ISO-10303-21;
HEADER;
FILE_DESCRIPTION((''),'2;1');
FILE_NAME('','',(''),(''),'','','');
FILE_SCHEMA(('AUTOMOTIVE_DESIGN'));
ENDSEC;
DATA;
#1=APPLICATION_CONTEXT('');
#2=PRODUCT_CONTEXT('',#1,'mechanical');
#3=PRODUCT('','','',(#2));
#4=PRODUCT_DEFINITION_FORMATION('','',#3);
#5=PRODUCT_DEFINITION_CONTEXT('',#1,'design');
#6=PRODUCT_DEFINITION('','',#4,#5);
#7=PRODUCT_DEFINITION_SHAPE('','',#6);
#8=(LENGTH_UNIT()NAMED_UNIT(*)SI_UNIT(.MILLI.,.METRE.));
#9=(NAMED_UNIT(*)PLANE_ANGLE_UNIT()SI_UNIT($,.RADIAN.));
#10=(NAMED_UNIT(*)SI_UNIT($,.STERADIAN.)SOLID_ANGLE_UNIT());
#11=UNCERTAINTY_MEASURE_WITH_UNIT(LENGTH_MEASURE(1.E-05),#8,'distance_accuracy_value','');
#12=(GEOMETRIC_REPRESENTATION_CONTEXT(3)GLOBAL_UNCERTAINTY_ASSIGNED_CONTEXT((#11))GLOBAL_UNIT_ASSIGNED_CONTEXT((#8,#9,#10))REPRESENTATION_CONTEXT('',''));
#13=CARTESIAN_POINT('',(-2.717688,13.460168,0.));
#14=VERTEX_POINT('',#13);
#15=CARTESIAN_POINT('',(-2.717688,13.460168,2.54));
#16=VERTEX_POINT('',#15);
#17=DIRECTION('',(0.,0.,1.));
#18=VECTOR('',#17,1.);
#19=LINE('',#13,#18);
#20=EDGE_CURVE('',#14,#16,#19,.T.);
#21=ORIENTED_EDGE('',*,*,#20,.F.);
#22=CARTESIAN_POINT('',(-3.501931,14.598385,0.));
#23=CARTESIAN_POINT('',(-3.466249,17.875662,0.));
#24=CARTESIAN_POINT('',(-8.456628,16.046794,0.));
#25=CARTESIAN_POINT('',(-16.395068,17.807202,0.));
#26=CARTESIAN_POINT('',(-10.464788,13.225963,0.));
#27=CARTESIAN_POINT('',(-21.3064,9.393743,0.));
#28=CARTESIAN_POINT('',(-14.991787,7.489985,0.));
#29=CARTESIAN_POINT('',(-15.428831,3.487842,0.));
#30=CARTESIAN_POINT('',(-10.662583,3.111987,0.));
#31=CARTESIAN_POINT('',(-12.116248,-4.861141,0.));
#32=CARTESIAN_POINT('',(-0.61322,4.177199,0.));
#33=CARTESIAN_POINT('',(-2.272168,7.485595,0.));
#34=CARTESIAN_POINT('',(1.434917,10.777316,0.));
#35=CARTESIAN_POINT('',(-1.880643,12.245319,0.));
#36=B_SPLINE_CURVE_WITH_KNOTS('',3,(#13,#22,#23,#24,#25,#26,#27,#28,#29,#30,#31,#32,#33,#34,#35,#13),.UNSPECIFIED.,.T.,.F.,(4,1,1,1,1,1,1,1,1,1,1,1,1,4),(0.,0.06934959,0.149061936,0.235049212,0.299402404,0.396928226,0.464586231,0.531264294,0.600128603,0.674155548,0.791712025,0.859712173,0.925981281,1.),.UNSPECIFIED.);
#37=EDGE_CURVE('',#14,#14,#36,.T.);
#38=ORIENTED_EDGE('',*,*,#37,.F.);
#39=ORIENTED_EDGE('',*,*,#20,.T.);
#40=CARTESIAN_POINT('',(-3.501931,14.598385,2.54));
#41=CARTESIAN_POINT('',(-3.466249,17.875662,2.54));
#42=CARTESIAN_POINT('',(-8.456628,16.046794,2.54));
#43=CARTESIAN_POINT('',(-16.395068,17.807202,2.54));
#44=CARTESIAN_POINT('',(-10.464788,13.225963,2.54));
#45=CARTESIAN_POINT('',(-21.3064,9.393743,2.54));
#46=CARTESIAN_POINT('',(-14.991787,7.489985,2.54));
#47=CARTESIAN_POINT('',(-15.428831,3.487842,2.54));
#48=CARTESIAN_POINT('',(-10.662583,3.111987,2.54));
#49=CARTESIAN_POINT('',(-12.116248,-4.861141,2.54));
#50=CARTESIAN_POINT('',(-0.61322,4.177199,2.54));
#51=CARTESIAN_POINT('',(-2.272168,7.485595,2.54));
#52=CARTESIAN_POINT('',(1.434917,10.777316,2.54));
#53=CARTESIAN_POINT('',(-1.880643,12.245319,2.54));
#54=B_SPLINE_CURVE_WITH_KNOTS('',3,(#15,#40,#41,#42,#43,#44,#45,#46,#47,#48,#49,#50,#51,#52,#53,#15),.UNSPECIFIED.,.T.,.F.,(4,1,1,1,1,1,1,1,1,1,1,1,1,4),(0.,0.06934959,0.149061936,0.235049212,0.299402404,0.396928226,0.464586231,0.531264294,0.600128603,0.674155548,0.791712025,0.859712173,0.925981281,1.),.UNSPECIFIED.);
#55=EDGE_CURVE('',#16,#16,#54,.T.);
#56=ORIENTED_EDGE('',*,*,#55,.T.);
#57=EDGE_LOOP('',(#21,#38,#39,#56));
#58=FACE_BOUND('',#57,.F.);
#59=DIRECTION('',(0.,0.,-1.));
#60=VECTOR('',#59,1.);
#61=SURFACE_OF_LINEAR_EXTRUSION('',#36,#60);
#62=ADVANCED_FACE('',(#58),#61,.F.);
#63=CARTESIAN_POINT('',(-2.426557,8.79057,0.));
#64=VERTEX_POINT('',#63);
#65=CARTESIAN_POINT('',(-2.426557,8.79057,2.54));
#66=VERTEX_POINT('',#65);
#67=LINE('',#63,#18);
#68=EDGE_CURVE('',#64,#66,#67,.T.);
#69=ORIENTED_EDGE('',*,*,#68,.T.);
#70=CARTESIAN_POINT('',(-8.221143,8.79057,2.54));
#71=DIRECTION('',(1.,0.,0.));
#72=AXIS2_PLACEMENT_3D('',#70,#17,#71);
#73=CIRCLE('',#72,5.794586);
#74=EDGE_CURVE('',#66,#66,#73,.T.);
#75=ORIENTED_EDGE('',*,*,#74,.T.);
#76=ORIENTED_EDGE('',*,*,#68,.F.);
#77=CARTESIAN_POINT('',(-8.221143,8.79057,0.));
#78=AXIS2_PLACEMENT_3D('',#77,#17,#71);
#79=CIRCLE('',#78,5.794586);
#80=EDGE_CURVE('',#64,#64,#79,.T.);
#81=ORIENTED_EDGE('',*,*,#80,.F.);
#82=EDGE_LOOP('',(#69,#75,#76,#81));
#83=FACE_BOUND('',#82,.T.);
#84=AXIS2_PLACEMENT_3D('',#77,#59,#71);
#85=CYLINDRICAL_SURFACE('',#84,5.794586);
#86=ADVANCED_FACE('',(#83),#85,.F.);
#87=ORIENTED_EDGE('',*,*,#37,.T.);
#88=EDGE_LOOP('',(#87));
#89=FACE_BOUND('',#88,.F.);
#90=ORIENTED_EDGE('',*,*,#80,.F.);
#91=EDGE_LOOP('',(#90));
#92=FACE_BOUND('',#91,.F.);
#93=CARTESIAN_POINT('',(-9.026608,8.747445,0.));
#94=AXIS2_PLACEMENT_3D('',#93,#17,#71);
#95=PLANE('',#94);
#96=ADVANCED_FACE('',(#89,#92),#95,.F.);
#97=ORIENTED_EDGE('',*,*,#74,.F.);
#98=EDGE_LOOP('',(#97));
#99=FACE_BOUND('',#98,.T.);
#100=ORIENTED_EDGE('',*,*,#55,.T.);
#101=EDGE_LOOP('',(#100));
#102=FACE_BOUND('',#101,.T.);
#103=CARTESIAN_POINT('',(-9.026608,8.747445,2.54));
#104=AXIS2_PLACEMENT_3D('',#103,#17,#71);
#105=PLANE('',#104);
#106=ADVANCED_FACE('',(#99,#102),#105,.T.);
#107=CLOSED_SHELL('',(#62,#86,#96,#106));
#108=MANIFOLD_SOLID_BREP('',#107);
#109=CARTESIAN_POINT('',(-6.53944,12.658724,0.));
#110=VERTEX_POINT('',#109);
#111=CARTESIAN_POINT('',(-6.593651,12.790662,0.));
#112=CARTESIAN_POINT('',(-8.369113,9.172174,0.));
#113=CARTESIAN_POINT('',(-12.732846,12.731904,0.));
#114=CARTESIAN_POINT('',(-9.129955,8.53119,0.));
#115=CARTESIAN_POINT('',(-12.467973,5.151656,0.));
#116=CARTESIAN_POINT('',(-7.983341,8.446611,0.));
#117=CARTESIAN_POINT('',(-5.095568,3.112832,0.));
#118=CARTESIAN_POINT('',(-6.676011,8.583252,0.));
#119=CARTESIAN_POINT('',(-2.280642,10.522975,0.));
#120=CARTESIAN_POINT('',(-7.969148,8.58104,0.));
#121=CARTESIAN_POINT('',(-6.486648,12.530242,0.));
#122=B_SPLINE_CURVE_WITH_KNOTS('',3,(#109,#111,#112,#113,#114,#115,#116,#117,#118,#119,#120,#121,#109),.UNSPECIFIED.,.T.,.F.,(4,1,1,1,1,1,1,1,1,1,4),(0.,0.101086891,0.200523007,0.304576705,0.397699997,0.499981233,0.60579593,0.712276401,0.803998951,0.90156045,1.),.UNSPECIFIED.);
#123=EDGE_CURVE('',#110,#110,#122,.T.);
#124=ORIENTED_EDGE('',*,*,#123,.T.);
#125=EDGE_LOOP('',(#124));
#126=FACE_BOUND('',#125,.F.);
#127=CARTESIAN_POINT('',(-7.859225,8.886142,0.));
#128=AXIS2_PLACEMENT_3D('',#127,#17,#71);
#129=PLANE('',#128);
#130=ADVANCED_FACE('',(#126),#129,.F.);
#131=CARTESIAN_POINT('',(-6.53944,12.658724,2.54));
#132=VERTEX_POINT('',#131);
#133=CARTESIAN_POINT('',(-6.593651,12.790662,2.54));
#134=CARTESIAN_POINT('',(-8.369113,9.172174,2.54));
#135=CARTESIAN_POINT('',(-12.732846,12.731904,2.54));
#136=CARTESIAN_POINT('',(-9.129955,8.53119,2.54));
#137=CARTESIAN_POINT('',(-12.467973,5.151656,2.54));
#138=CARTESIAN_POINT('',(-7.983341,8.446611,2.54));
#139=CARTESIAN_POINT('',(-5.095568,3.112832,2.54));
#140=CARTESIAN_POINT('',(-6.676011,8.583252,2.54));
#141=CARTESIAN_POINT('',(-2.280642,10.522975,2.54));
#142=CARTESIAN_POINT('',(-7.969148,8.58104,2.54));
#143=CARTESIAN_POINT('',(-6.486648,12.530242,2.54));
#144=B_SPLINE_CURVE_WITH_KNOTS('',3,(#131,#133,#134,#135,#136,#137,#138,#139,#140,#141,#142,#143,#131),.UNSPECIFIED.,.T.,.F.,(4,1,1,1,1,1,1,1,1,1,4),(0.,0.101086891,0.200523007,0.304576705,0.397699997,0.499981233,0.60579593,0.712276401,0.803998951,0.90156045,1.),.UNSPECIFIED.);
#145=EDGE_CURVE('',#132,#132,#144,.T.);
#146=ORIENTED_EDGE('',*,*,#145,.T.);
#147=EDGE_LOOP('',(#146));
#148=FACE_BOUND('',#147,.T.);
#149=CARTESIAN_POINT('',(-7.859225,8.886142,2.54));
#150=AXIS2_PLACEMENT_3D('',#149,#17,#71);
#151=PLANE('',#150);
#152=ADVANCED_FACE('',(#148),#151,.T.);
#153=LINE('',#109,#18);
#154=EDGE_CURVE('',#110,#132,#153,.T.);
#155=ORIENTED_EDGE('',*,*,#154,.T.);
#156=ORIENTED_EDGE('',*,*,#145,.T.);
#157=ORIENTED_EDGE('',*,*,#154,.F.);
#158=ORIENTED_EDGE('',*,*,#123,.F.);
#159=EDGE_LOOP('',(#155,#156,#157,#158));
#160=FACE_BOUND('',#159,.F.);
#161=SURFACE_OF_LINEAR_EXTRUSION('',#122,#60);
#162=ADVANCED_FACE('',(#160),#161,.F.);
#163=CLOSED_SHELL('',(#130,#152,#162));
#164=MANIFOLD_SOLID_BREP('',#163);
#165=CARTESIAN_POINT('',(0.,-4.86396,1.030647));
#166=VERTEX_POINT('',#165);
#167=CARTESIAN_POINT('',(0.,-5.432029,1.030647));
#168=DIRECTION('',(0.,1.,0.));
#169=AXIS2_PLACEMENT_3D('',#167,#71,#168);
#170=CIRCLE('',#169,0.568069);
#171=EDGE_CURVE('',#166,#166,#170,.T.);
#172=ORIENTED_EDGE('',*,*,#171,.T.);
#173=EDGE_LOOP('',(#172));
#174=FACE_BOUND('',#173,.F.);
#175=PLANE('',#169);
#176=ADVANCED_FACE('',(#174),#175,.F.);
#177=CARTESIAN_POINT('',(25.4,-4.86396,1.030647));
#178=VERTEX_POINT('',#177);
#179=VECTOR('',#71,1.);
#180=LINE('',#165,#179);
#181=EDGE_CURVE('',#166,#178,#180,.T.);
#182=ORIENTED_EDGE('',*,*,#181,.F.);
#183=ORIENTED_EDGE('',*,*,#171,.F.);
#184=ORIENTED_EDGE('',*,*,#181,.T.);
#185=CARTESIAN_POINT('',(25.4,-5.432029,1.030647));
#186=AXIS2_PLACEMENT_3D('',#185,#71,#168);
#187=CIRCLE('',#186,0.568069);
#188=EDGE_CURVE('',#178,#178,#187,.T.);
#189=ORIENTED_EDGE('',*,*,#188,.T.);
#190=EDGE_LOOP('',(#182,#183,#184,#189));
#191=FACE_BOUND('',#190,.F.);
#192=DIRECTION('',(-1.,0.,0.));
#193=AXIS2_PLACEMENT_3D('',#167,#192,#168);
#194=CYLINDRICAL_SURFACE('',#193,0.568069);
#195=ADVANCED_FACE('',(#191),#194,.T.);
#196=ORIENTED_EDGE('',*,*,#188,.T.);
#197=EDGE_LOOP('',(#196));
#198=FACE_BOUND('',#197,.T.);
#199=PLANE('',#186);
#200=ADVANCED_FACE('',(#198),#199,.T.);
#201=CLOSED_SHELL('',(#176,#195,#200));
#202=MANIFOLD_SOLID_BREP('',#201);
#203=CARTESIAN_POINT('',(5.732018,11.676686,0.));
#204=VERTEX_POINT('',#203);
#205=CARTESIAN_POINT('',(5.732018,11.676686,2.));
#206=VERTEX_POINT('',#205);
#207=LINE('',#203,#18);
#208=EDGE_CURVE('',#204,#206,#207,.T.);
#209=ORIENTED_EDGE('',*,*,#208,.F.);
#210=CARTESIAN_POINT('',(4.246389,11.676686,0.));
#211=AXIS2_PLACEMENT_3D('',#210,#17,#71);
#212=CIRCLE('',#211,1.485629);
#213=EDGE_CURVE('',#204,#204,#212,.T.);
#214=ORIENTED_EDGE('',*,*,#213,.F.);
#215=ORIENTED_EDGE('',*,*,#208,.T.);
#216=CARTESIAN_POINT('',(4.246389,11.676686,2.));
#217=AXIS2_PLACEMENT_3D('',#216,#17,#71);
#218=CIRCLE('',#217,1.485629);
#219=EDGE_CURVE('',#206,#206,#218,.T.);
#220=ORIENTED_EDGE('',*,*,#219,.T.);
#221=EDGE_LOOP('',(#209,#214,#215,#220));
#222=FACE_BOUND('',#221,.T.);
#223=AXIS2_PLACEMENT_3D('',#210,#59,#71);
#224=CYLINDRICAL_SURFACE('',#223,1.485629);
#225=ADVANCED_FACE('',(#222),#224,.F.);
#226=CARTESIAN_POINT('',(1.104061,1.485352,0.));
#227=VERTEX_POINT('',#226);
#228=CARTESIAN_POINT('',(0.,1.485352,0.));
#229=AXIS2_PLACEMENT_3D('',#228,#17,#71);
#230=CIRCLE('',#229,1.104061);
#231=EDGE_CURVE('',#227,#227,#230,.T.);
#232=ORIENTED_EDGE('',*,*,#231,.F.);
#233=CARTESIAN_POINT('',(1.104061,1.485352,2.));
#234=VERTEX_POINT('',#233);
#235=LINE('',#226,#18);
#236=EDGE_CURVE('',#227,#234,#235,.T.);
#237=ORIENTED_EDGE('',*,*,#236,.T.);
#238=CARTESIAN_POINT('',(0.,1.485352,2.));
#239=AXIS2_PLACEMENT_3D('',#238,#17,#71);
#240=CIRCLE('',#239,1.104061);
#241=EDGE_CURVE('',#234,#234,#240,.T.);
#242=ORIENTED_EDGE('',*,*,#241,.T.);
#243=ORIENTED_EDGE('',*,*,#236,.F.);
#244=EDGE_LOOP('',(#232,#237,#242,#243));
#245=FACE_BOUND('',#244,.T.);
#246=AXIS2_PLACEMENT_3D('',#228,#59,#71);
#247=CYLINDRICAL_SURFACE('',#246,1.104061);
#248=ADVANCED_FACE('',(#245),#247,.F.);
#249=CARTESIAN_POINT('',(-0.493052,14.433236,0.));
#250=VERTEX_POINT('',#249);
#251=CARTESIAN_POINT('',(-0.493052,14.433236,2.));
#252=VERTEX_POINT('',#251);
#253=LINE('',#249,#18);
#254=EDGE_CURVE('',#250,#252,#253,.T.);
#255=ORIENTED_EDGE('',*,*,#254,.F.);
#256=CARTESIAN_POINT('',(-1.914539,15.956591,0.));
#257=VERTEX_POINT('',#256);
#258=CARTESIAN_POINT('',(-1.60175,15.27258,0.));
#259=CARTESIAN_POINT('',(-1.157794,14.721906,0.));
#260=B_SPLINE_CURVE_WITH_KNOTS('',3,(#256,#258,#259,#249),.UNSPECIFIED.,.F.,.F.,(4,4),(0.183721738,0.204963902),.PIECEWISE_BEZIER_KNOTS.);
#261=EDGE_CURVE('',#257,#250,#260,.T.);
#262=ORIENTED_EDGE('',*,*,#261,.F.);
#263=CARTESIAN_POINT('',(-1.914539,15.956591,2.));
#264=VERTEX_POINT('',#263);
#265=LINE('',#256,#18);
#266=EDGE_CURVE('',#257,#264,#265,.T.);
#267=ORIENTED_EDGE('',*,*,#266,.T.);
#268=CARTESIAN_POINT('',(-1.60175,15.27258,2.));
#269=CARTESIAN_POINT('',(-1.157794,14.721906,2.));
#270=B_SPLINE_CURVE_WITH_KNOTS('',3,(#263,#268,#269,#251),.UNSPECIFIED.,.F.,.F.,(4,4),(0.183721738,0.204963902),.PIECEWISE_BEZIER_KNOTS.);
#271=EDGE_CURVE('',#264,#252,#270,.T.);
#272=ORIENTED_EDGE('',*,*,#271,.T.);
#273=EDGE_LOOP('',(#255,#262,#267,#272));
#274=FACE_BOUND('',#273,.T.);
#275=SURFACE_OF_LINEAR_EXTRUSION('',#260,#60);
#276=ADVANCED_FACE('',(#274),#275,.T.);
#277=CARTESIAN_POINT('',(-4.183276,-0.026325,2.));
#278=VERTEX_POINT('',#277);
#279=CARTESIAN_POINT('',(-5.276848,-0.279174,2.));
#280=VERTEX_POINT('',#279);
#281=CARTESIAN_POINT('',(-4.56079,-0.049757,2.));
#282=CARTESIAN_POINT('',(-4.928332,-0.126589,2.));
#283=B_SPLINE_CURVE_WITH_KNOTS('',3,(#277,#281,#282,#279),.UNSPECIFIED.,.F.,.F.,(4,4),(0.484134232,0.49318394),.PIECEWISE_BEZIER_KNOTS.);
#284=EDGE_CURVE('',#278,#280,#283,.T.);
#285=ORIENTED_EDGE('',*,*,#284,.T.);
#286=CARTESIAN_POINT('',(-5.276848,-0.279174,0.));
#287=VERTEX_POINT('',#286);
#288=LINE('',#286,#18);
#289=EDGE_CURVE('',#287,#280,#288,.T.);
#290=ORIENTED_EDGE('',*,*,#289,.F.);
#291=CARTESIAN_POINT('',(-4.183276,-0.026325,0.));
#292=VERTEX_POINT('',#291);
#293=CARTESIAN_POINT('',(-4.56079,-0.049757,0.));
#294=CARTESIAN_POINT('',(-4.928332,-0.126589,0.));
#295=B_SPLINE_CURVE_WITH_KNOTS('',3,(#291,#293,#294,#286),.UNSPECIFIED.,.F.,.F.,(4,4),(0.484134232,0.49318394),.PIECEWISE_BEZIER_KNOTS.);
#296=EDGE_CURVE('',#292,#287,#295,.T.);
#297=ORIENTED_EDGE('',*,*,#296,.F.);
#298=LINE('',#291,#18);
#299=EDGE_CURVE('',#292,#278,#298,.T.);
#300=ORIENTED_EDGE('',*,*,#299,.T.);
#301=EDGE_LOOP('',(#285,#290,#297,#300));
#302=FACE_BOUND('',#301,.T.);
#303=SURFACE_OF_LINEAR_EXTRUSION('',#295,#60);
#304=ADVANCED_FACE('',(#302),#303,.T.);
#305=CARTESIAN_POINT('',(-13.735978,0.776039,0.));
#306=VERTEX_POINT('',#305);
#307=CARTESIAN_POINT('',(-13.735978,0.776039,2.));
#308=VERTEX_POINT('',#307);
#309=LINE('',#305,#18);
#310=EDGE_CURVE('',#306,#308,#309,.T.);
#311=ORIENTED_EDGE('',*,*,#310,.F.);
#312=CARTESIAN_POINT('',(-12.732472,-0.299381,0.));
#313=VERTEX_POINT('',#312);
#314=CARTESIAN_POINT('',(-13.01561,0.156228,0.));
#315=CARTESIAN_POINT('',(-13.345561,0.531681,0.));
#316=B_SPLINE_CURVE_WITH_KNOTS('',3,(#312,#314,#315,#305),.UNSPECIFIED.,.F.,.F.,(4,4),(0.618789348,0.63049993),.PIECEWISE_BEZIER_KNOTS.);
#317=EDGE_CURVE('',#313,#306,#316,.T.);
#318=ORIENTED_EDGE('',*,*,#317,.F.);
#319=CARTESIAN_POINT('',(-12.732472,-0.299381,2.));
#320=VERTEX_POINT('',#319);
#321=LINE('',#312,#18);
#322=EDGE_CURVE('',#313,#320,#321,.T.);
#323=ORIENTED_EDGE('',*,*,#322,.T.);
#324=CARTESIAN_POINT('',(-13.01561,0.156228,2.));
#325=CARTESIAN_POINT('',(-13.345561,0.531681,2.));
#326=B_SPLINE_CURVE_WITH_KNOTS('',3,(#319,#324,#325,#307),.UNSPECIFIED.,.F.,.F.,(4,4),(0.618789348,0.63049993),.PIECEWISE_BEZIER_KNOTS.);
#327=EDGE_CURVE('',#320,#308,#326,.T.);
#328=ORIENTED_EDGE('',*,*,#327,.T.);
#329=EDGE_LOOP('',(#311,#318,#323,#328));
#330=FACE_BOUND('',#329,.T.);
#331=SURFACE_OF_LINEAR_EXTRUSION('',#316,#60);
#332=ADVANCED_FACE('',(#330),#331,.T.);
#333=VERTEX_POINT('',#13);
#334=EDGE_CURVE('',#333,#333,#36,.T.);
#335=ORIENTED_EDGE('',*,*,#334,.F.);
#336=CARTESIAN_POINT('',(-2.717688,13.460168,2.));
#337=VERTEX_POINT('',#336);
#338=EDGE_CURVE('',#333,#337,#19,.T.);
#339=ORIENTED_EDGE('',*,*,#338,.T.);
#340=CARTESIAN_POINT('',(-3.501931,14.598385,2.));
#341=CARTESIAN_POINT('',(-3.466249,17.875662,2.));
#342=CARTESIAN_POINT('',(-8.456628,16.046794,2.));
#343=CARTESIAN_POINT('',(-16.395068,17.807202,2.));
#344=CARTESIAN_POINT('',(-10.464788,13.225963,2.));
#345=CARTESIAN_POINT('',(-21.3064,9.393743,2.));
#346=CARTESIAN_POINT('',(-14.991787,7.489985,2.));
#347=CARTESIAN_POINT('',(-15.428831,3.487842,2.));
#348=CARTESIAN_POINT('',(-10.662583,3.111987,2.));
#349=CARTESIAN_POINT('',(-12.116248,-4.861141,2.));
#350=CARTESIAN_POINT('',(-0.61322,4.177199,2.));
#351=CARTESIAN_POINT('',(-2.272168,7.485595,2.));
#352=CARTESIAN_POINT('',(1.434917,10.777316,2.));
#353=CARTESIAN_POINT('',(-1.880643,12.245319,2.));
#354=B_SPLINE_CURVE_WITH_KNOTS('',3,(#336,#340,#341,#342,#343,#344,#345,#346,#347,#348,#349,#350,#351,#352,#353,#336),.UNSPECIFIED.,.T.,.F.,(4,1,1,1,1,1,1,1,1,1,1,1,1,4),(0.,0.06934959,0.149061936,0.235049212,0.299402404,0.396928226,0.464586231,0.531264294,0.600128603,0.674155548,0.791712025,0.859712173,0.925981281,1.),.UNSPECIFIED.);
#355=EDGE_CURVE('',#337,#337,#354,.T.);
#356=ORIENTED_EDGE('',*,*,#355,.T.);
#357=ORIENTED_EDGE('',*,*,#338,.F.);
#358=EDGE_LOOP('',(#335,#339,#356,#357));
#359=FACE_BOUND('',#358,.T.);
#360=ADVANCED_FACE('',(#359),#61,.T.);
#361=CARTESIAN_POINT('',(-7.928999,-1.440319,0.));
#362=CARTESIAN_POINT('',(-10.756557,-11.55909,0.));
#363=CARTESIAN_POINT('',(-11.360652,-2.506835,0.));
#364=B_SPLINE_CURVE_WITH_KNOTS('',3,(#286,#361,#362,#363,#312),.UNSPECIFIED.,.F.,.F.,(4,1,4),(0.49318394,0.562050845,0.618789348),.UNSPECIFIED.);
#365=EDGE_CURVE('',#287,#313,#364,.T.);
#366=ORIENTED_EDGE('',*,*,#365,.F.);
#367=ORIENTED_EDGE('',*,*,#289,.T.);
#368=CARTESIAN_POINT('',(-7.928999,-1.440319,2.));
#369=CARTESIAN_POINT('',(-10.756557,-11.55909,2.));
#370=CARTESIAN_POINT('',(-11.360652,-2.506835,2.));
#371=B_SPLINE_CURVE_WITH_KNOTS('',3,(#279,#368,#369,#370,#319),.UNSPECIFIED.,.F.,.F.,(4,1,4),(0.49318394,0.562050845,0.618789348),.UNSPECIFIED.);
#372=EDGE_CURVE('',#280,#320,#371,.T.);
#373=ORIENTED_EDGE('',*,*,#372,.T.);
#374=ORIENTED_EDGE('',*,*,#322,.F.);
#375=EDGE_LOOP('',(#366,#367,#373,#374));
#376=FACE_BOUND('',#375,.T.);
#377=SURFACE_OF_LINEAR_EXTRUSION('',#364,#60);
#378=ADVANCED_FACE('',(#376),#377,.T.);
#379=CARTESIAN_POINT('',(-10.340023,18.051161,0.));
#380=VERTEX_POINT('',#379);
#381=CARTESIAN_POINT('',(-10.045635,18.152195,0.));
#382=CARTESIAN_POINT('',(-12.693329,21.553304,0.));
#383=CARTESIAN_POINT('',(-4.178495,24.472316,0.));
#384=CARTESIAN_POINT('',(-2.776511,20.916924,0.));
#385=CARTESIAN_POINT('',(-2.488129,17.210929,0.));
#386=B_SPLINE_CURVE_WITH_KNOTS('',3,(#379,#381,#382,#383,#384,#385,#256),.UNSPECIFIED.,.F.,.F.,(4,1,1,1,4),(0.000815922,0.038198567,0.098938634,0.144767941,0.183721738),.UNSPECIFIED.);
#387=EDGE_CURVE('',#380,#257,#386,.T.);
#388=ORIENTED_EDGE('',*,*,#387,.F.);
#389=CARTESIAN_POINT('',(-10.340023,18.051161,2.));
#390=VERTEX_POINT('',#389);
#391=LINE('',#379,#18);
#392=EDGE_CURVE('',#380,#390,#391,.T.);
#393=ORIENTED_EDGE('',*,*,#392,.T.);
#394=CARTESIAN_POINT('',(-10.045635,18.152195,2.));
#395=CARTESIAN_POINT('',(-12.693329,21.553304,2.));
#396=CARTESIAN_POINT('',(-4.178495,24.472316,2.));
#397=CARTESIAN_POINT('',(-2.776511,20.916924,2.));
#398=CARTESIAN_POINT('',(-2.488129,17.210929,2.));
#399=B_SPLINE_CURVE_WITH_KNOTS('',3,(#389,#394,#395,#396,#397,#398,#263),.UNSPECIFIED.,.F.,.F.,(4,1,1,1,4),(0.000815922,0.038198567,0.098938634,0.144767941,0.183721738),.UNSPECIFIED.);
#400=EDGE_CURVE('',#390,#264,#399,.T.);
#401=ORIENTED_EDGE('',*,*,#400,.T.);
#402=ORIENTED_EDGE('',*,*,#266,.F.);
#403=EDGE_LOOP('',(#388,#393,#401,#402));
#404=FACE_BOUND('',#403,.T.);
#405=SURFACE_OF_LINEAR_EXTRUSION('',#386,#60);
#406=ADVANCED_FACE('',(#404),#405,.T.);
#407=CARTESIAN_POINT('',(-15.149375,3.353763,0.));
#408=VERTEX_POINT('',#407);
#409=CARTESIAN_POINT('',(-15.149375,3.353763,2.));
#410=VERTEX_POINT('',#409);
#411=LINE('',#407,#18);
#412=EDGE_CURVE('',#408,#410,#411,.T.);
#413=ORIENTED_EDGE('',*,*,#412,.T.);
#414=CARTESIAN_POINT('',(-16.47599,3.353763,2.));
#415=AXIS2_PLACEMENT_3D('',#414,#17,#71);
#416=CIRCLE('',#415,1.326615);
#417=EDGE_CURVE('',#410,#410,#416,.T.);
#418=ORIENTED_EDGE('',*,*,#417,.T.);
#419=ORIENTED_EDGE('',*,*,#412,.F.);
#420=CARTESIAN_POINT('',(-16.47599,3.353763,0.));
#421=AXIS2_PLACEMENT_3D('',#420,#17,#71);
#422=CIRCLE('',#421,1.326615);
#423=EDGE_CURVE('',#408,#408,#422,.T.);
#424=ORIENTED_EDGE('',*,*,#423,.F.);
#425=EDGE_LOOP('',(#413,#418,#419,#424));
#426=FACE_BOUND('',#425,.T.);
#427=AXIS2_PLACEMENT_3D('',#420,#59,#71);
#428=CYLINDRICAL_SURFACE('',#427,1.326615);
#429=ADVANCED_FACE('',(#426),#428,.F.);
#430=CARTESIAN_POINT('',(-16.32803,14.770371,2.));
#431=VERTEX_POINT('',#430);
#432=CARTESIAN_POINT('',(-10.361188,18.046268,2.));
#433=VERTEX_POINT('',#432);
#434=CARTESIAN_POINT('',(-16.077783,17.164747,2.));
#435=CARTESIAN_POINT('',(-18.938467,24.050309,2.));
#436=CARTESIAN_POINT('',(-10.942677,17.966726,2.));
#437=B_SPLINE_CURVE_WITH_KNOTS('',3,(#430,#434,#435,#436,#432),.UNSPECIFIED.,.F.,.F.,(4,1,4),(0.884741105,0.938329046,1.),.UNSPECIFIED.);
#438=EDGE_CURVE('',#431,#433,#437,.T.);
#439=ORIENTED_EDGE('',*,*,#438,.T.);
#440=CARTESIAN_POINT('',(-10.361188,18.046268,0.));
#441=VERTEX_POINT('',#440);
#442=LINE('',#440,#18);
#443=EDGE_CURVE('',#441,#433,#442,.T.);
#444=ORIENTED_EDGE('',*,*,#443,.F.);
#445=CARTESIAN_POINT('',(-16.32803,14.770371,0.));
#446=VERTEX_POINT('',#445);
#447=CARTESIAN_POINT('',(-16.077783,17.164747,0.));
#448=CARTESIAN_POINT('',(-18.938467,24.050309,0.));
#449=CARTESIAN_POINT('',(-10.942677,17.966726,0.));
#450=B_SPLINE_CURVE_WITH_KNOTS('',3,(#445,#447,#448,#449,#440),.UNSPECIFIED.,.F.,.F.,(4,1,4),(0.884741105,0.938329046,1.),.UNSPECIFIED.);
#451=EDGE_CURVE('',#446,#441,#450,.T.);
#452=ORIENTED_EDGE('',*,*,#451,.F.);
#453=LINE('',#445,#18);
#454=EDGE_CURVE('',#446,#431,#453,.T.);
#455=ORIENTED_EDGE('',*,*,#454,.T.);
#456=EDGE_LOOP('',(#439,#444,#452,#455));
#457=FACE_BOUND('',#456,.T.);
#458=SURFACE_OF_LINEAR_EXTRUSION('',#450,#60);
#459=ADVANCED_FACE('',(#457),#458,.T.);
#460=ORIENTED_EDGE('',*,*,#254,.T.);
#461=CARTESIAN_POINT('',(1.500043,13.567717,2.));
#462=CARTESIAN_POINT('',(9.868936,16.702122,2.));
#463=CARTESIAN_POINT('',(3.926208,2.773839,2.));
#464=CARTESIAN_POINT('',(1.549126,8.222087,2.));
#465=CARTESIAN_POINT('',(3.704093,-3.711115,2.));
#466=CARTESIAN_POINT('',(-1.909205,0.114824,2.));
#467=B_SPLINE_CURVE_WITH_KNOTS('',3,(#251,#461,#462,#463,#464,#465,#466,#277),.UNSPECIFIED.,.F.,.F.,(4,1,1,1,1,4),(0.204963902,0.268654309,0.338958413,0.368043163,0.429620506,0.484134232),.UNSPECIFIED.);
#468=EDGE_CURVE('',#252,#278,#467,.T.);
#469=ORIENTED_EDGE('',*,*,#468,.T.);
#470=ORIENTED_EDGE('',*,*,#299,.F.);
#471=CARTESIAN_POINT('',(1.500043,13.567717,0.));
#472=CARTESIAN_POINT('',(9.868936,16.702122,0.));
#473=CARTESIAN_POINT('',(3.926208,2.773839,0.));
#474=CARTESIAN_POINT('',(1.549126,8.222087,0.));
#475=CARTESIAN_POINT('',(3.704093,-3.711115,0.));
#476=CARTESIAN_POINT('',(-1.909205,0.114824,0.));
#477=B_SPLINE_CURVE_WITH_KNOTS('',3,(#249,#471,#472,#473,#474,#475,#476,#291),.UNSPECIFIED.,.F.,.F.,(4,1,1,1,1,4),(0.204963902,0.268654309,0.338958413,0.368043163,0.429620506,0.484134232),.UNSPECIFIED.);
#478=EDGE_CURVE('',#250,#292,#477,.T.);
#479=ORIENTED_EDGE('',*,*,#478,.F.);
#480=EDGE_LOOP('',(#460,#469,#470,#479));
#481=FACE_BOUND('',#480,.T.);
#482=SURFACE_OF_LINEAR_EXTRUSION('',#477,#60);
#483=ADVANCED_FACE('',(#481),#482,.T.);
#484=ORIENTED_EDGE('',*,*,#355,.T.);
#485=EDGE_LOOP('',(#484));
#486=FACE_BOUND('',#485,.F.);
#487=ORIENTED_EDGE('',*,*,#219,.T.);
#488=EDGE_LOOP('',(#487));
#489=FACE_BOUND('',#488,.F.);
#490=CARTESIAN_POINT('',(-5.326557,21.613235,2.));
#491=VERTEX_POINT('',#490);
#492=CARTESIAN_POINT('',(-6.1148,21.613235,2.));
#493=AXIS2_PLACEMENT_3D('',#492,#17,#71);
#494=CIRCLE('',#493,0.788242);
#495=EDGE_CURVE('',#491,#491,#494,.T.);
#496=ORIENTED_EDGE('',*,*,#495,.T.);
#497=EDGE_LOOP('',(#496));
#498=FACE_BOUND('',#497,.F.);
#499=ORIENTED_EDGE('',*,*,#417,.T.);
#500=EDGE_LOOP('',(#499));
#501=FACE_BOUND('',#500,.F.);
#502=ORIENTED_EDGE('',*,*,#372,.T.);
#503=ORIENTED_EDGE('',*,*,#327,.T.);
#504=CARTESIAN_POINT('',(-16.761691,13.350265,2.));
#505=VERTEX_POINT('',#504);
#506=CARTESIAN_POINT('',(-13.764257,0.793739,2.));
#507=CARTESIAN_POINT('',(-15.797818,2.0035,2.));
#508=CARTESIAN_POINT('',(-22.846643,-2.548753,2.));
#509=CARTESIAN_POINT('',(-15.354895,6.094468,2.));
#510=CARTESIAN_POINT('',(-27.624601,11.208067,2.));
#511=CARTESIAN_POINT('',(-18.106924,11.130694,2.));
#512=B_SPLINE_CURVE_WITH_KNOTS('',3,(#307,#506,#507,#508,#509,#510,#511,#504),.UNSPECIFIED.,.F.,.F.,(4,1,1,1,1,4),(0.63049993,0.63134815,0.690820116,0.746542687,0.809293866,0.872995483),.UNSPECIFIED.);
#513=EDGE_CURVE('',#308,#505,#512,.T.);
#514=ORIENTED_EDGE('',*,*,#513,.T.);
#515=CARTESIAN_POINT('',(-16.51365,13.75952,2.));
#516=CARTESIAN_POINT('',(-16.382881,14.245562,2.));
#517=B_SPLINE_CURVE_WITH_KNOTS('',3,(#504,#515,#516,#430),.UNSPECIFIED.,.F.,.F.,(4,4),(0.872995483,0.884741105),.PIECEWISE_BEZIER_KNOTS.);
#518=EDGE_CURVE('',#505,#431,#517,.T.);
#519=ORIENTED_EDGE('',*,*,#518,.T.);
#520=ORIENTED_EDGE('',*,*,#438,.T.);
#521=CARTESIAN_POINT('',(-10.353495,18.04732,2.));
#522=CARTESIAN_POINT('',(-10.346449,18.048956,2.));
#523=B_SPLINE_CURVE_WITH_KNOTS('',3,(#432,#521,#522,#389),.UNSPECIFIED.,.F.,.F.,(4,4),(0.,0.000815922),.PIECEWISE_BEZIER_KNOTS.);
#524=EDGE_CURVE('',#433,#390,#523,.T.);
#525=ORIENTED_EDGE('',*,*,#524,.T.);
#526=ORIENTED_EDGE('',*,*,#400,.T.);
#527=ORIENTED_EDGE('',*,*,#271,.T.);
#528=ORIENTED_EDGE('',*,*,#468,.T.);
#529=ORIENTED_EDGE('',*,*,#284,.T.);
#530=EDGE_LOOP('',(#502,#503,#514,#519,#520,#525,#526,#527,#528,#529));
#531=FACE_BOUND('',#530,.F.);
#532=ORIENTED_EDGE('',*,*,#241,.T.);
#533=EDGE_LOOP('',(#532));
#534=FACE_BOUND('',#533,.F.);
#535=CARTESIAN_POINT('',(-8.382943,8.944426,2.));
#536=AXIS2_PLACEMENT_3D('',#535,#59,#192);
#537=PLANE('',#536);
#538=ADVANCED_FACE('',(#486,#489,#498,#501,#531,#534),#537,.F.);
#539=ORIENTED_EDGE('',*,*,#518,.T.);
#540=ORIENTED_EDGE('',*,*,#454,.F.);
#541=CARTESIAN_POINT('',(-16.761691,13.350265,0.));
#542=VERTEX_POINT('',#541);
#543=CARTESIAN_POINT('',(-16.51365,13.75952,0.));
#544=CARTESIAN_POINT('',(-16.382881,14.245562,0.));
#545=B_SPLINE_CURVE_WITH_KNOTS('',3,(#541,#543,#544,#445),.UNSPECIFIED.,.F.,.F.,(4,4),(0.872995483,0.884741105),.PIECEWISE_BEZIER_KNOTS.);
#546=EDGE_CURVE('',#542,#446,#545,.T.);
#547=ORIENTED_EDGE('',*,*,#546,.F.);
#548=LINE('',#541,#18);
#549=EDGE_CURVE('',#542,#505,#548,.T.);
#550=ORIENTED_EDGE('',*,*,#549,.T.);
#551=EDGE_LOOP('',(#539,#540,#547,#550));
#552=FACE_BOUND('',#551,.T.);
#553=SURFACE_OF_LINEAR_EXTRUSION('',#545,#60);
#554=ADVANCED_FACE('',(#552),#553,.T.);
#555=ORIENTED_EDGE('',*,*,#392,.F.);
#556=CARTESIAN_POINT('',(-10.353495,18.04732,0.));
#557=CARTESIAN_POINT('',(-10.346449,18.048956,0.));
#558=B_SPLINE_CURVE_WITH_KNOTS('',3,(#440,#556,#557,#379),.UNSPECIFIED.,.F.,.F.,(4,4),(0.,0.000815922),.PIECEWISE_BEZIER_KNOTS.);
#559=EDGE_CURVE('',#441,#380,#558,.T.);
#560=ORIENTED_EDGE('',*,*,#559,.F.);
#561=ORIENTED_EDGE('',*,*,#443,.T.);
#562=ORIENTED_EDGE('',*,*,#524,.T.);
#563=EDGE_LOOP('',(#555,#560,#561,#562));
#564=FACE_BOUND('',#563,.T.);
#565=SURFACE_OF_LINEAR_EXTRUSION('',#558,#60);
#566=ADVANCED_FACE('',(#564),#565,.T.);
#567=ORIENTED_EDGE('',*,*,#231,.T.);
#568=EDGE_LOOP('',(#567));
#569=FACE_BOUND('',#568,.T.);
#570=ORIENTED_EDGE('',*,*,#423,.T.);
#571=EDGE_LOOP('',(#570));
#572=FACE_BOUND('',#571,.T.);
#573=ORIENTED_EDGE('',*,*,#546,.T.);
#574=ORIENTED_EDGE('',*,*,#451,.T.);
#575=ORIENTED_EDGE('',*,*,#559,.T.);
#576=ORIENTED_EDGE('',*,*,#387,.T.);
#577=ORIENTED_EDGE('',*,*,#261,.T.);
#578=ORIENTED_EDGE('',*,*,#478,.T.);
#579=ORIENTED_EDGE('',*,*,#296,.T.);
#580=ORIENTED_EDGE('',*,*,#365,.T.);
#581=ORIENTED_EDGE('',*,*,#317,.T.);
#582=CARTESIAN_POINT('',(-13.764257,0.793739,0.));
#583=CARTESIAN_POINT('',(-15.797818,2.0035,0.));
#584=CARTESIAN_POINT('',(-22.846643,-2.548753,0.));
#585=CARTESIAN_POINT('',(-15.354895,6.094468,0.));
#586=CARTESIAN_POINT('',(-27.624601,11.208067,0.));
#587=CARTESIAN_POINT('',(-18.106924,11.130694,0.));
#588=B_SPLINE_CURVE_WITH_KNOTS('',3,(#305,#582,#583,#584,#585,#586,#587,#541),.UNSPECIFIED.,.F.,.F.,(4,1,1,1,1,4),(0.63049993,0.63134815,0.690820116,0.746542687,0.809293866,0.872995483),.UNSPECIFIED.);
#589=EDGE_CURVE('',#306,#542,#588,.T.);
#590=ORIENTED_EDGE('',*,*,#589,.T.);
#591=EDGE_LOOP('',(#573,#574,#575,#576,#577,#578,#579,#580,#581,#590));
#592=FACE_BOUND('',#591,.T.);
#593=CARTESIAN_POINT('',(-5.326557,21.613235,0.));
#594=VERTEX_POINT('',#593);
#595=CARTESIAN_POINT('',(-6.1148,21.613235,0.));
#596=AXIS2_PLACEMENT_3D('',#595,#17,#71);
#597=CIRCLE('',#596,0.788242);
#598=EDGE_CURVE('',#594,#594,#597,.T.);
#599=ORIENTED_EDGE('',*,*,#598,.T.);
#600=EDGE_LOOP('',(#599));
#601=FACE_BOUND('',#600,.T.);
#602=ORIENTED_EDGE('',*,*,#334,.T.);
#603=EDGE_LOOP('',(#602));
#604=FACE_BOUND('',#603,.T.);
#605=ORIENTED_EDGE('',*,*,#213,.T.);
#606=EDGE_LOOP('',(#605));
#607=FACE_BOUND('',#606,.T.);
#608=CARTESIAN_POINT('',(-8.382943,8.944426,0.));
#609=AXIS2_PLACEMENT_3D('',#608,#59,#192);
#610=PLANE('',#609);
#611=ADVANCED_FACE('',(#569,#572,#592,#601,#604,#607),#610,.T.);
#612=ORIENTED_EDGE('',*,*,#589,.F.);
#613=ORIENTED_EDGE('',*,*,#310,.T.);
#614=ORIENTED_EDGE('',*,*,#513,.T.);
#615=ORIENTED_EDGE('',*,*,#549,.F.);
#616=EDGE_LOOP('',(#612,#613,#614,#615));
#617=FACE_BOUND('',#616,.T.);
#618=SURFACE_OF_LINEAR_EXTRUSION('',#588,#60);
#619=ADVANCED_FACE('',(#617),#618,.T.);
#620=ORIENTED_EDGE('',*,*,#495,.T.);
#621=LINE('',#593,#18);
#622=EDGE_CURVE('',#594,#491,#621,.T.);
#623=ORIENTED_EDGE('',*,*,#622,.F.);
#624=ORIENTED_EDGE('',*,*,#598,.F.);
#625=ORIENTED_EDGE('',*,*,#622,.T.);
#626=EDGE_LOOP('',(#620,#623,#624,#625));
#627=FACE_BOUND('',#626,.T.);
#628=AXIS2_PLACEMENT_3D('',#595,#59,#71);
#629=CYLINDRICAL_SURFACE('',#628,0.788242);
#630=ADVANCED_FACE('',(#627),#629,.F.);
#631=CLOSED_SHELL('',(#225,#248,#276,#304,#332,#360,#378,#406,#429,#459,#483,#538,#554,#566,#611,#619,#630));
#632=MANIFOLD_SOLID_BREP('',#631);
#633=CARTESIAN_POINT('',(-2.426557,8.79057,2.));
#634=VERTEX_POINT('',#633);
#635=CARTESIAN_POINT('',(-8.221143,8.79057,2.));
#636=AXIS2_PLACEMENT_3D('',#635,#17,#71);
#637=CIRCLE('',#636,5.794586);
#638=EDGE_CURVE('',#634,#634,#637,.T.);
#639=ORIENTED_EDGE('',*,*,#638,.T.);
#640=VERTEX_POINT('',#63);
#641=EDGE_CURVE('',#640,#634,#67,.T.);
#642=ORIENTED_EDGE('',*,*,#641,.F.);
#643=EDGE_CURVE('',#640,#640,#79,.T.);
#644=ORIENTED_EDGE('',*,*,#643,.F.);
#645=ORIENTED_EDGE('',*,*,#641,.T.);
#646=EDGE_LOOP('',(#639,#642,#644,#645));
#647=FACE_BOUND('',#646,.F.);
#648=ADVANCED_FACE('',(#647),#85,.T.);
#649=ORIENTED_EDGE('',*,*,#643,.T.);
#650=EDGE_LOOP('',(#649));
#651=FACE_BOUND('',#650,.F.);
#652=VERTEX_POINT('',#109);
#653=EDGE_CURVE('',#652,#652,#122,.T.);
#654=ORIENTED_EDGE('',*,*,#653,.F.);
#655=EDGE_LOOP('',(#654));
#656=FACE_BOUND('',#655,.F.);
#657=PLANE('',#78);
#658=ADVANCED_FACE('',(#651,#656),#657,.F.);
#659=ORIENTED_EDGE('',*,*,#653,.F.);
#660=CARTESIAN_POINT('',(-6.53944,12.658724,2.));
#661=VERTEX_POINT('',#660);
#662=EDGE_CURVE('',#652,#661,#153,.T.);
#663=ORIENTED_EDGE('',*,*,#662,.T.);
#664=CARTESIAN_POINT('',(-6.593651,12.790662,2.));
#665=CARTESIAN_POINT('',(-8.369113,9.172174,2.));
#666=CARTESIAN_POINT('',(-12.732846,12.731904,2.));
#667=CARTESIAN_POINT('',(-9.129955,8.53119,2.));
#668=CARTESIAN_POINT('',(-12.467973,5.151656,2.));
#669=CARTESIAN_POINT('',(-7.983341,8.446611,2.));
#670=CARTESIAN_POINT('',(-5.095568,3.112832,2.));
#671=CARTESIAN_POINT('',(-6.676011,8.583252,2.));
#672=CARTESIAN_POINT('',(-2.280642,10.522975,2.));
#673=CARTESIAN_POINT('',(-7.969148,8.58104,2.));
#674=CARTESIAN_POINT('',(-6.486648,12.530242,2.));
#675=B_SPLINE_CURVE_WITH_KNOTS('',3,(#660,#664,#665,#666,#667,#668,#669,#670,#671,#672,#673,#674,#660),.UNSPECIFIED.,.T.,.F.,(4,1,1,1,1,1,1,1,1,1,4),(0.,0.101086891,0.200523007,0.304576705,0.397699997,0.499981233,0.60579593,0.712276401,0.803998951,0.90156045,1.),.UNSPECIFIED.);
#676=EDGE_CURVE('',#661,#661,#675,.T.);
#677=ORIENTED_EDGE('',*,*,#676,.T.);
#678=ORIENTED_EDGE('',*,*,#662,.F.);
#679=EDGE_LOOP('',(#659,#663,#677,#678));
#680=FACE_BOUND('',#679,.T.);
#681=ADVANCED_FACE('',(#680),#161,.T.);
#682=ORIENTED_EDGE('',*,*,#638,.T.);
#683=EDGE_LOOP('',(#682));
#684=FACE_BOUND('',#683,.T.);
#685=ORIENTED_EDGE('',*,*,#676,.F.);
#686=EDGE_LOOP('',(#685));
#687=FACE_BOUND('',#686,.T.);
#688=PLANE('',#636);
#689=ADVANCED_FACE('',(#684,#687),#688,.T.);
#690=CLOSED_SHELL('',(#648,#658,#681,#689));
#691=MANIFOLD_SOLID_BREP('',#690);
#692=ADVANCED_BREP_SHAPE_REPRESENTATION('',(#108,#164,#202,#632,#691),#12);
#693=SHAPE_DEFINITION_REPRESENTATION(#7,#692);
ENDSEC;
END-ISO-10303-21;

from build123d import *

# Parameters (mm, degrees)
F0_R     = 1.3266147944
F0_R_2   = 1.1040610952
F0_R_3   = 1.4856293309
F0_R_4   = 0.7882424869
F1_DEPTH = 2
F0_R_5   = 5.7945856742
F2_DEPTH = 2.54
F3_R     = 0.568069392
F4_DEPTH = 25.4


with BuildPart() as f1:
    # F0 (on Top) → F1 (new body)
    with BuildSketch(Plane.XY):
        with BuildLine():
            add(Edge.make_bspline(
                [(-10.3611879519, 18.0462677779), (-10.3534947122, 18.04732013), (-10.3464485535, 18.0489561773), (-10.3400231717, 18.0511613673)],
                knots=[0, 0, 0, 0, 0.0008159217, 0.0008159217, 0.0008159217, 0.0008159217], degree=3))
            add(Edge.make_bspline(
                [(-16.328030466, 14.7703708368), (-16.0777830551, 17.1647474658), (-18.9384674421, 24.0503093541), (-10.9426768913, 17.9667263684), (-10.3611879519, 18.0462677779)],
                knots=[0.8847411053, 0.8847411053, 0.8847411053, 0.8847411053, 0.9383290457, 1, 1, 1, 1], degree=3))
            add(Edge.make_bspline(
                [(-16.7616909927, 13.350264866), (-16.5136502492, 13.7595204058), (-16.3828807081, 14.2455616601), (-16.328030466, 14.7703708368)],
                knots=[0.8729954833, 0.8729954833, 0.8729954833, 0.8729954833, 0.8847411053, 0.8847411053, 0.8847411053, 0.8847411053], degree=3))
            add(Edge.make_bspline(
                [(-13.7359780839, 0.7760394568), (-13.7642567215, 0.793738842), (-15.7978179849, 2.00349997), (-22.8466429648, -2.5487526862), (-15.3548952974, 6.094467952), (-27.6246006279, 11.2080666698), (-18.1069238288, 11.1306940699), (-16.7616909927, 13.350264866)],
                knots=[0.6304999298, 0.6304999298, 0.6304999298, 0.6304999298, 0.6313481499, 0.6908201161, 0.7465426875, 0.8092938663, 0.8729954833, 0.8729954833, 0.8729954833, 0.8729954833], degree=3))
            add(Edge.make_bspline(
                [(-12.7324720602, -0.2993813963), (-13.0156097942, 0.1562276051), (-13.3455613883, 0.5316806025), (-13.7359780839, 0.7760394568)],
                knots=[0.6187893475, 0.6187893475, 0.6187893475, 0.6187893475, 0.6304999298, 0.6304999298, 0.6304999298, 0.6304999298], degree=3))
            add(Edge.make_bspline(
                [(-5.2768478841, -0.2791737885), (-7.9289988902, -1.4403188282), (-10.7565569942, -11.5590904962), (-11.360652058, -2.506835459), (-12.7324720602, -0.2993813963)],
                knots=[0.4931839396, 0.4931839396, 0.4931839396, 0.4931839396, 0.5620508454, 0.6187893475, 0.6187893475, 0.6187893475, 0.6187893475], degree=3))
            add(Edge.make_bspline(
                [(-4.1832758995, -0.0263248454), (-4.5607895325, -0.0497565931), (-4.9283322804, -0.1265892775), (-5.2768478841, -0.2791737885)],
                knots=[0.4841342319, 0.4841342319, 0.4841342319, 0.4841342319, 0.4931839396, 0.4931839396, 0.4931839396, 0.4931839396], degree=3))
            add(Edge.make_bspline(
                [(-0.4930524154, 14.4332359741), (1.500043002, 13.5677170511), (9.868936337, 16.7021215402), (3.9262079757, 2.7738392827), (1.5491255083, 8.2220871862), (3.704092928, -3.7111150646), (-1.9092052154, 0.1148235681), (-4.1832758995, -0.0263248454)],
                knots=[0.2049639017, 0.2049639017, 0.2049639017, 0.2049639017, 0.2686543092, 0.3389584126, 0.3680431628, 0.4296205056, 0.4841342319, 0.4841342319, 0.4841342319, 0.4841342319], degree=3))
            add(Edge.make_bspline(
                [(-1.9145389929, 15.9565913165), (-1.6017504496, 15.2725795664), (-1.157793934, 14.7219057277), (-0.4930524154, 14.4332359741)],
                knots=[0.1837217384, 0.1837217384, 0.1837217384, 0.1837217384, 0.2049639017, 0.2049639017, 0.2049639017, 0.2049639017], degree=3))
            add(Edge.make_bspline(
                [(-10.3400231717, 18.0511613673), (-10.0456349068, 18.1521953747), (-12.6933285572, 21.5533035564), (-4.1784954323, 24.4723157304), (-2.7765111724, 20.9169240228), (-2.4881294233, 17.2109294391), (-1.9145389929, 15.9565913165)],
                knots=[0.0008159217, 0.0008159217, 0.0008159217, 0.0008159217, 0.0381985671, 0.0989386344, 0.144767941, 0.1837217384, 0.1837217384, 0.1837217384, 0.1837217384], degree=3))
        make_face()
        with Locations((-16.4759901327, 3.353762643)):
            Circle(F0_R, mode=Mode.SUBTRACT)
        with Locations((0, 1.4853516515)):
            Circle(F0_R_2, mode=Mode.SUBTRACT)
        with BuildLine():
            add(Edge.make_bspline(
                [(-2.7176877845, 13.4601683999), (-3.501931396, 14.598384661), (-3.4662486596, 17.8756620613), (-8.4566276638, 16.0467944457), (-16.3950680376, 17.8072015669), (-10.4647878048, 13.2259633981), (-21.3063999572, 9.3937426178), (-14.9917870912, 7.4899846932), (-15.4288307943, 3.4878418966), (-10.6625831586, 3.1119865259), (-12.1162482115, -4.861141265), (-0.6132198182, 4.1771991646), (-2.2721680967, 7.4855949459), (1.4349171053, 10.7773164203), (-1.8806430789, 12.2453189818), (-2.7176877845, 13.4601683999)],
                knots=[0, 0, 0, 0, 0.06934959, 0.1490619363, 0.2350492123, 0.2994024044, 0.396928226, 0.4645862314, 0.5312642938, 0.6001286029, 0.6741555477, 0.7917120254, 0.8597121728, 0.9259812814, 1, 1, 1, 1], degree=3))
        make_face(mode=Mode.SUBTRACT)
        with Locations((4.2463887812, 11.6766855091)):
            Circle(F0_R_3, mode=Mode.SUBTRACT)
        with Locations((-6.1147997727, 21.6132347635)):
            Circle(F0_R_4, mode=Mode.SUBTRACT)
    extrude(amount=F1_DEPTH)


with BuildPart() as f1b:
    # F0 (on Top) → F1, piece 2 (new body)
    with BuildSketch(Plane.XY):
        with Locations((-8.2211428575, 8.7905701561)):
            Circle(F0_R_5)
        with BuildLine():
            add(Edge.make_bspline(
                [(-6.5394396743, 12.6587244602), (-6.5936514865, 12.7906624869), (-8.3691126147, 9.1721735858), (-12.7328459419, 12.7319038651), (-9.1299548542, 8.5311904713), (-12.4679728699, 5.1516558642), (-7.9833414594, 8.4466114268), (-5.0955682638, 3.1128319072), (-6.6760106178, 8.5832524185), (-2.2806418339, 10.5229746283), (-7.9691483153, 8.5810402036), (-6.4866476028, 12.5302417281), (-6.5394396743, 12.6587244602)],
                knots=[0, 0, 0, 0, 0.1010868913, 0.2005230074, 0.3045767055, 0.3976999971, 0.4999812331, 0.60579593, 0.7122764009, 0.8039989505, 0.90156045, 1, 1, 1, 1], degree=3))
        make_face(mode=Mode.SUBTRACT)
    extrude(amount=F1_DEPTH)


with BuildPart() as f2:
    # F0 (on Top) → F2 (new body)
    with BuildSketch(Plane.XY):
        with BuildLine():
            add(Edge.make_bspline(
                [(-2.7176877845, 13.4601683999), (-3.501931396, 14.598384661), (-3.4662486596, 17.8756620613), (-8.4566276638, 16.0467944457), (-16.3950680376, 17.8072015669), (-10.4647878048, 13.2259633981), (-21.3063999572, 9.3937426178), (-14.9917870912, 7.4899846932), (-15.4288307943, 3.4878418966), (-10.6625831586, 3.1119865259), (-12.1162482115, -4.861141265), (-0.6132198182, 4.1771991646), (-2.2721680967, 7.4855949459), (1.4349171053, 10.7773164203), (-1.8806430789, 12.2453189818), (-2.7176877845, 13.4601683999)],
                knots=[0, 0, 0, 0, 0.06934959, 0.1490619363, 0.2350492123, 0.2994024044, 0.396928226, 0.4645862314, 0.5312642938, 0.6001286029, 0.6741555477, 0.7917120254, 0.8597121728, 0.9259812814, 1, 1, 1, 1], degree=3))
        make_face()
        with Locations((-8.2211428575, 8.7905701561)):
            Circle(F0_R_5, mode=Mode.SUBTRACT)
    extrude(amount=F2_DEPTH)


with BuildPart() as f2b:
    # F0 (on Top) → F2, piece 2 (new body)
    with BuildSketch(Plane.XY):
        with BuildLine():
            add(Edge.make_bspline(
                [(-6.5394396743, 12.6587244602), (-6.5936514865, 12.7906624869), (-8.3691126147, 9.1721735858), (-12.7328459419, 12.7319038651), (-9.1299548542, 8.5311904713), (-12.4679728699, 5.1516558642), (-7.9833414594, 8.4466114268), (-5.0955682638, 3.1128319072), (-6.6760106178, 8.5832524185), (-2.2806418339, 10.5229746283), (-7.9691483153, 8.5810402036), (-6.4866476028, 12.5302417281), (-6.5394396743, 12.6587244602)],
                knots=[0, 0, 0, 0, 0.1010868913, 0.2005230074, 0.3045767055, 0.3976999971, 0.4999812331, 0.60579593, 0.7122764009, 0.8039989505, 0.90156045, 1, 1, 1, 1], degree=3))
        make_face()
    extrude(amount=F2_DEPTH)


with BuildPart() as f4:
    # F3 (on Right) → F4 (new body)
    with BuildSketch(Plane.YZ):
        with Locations((-5.4320292547, 1.0306473123)):
            Circle(F3_R)
    extrude(amount=F4_DEPTH)


solid = Compound([f1.part, f1b.part, f2.part, f2b.part, f4.part])
